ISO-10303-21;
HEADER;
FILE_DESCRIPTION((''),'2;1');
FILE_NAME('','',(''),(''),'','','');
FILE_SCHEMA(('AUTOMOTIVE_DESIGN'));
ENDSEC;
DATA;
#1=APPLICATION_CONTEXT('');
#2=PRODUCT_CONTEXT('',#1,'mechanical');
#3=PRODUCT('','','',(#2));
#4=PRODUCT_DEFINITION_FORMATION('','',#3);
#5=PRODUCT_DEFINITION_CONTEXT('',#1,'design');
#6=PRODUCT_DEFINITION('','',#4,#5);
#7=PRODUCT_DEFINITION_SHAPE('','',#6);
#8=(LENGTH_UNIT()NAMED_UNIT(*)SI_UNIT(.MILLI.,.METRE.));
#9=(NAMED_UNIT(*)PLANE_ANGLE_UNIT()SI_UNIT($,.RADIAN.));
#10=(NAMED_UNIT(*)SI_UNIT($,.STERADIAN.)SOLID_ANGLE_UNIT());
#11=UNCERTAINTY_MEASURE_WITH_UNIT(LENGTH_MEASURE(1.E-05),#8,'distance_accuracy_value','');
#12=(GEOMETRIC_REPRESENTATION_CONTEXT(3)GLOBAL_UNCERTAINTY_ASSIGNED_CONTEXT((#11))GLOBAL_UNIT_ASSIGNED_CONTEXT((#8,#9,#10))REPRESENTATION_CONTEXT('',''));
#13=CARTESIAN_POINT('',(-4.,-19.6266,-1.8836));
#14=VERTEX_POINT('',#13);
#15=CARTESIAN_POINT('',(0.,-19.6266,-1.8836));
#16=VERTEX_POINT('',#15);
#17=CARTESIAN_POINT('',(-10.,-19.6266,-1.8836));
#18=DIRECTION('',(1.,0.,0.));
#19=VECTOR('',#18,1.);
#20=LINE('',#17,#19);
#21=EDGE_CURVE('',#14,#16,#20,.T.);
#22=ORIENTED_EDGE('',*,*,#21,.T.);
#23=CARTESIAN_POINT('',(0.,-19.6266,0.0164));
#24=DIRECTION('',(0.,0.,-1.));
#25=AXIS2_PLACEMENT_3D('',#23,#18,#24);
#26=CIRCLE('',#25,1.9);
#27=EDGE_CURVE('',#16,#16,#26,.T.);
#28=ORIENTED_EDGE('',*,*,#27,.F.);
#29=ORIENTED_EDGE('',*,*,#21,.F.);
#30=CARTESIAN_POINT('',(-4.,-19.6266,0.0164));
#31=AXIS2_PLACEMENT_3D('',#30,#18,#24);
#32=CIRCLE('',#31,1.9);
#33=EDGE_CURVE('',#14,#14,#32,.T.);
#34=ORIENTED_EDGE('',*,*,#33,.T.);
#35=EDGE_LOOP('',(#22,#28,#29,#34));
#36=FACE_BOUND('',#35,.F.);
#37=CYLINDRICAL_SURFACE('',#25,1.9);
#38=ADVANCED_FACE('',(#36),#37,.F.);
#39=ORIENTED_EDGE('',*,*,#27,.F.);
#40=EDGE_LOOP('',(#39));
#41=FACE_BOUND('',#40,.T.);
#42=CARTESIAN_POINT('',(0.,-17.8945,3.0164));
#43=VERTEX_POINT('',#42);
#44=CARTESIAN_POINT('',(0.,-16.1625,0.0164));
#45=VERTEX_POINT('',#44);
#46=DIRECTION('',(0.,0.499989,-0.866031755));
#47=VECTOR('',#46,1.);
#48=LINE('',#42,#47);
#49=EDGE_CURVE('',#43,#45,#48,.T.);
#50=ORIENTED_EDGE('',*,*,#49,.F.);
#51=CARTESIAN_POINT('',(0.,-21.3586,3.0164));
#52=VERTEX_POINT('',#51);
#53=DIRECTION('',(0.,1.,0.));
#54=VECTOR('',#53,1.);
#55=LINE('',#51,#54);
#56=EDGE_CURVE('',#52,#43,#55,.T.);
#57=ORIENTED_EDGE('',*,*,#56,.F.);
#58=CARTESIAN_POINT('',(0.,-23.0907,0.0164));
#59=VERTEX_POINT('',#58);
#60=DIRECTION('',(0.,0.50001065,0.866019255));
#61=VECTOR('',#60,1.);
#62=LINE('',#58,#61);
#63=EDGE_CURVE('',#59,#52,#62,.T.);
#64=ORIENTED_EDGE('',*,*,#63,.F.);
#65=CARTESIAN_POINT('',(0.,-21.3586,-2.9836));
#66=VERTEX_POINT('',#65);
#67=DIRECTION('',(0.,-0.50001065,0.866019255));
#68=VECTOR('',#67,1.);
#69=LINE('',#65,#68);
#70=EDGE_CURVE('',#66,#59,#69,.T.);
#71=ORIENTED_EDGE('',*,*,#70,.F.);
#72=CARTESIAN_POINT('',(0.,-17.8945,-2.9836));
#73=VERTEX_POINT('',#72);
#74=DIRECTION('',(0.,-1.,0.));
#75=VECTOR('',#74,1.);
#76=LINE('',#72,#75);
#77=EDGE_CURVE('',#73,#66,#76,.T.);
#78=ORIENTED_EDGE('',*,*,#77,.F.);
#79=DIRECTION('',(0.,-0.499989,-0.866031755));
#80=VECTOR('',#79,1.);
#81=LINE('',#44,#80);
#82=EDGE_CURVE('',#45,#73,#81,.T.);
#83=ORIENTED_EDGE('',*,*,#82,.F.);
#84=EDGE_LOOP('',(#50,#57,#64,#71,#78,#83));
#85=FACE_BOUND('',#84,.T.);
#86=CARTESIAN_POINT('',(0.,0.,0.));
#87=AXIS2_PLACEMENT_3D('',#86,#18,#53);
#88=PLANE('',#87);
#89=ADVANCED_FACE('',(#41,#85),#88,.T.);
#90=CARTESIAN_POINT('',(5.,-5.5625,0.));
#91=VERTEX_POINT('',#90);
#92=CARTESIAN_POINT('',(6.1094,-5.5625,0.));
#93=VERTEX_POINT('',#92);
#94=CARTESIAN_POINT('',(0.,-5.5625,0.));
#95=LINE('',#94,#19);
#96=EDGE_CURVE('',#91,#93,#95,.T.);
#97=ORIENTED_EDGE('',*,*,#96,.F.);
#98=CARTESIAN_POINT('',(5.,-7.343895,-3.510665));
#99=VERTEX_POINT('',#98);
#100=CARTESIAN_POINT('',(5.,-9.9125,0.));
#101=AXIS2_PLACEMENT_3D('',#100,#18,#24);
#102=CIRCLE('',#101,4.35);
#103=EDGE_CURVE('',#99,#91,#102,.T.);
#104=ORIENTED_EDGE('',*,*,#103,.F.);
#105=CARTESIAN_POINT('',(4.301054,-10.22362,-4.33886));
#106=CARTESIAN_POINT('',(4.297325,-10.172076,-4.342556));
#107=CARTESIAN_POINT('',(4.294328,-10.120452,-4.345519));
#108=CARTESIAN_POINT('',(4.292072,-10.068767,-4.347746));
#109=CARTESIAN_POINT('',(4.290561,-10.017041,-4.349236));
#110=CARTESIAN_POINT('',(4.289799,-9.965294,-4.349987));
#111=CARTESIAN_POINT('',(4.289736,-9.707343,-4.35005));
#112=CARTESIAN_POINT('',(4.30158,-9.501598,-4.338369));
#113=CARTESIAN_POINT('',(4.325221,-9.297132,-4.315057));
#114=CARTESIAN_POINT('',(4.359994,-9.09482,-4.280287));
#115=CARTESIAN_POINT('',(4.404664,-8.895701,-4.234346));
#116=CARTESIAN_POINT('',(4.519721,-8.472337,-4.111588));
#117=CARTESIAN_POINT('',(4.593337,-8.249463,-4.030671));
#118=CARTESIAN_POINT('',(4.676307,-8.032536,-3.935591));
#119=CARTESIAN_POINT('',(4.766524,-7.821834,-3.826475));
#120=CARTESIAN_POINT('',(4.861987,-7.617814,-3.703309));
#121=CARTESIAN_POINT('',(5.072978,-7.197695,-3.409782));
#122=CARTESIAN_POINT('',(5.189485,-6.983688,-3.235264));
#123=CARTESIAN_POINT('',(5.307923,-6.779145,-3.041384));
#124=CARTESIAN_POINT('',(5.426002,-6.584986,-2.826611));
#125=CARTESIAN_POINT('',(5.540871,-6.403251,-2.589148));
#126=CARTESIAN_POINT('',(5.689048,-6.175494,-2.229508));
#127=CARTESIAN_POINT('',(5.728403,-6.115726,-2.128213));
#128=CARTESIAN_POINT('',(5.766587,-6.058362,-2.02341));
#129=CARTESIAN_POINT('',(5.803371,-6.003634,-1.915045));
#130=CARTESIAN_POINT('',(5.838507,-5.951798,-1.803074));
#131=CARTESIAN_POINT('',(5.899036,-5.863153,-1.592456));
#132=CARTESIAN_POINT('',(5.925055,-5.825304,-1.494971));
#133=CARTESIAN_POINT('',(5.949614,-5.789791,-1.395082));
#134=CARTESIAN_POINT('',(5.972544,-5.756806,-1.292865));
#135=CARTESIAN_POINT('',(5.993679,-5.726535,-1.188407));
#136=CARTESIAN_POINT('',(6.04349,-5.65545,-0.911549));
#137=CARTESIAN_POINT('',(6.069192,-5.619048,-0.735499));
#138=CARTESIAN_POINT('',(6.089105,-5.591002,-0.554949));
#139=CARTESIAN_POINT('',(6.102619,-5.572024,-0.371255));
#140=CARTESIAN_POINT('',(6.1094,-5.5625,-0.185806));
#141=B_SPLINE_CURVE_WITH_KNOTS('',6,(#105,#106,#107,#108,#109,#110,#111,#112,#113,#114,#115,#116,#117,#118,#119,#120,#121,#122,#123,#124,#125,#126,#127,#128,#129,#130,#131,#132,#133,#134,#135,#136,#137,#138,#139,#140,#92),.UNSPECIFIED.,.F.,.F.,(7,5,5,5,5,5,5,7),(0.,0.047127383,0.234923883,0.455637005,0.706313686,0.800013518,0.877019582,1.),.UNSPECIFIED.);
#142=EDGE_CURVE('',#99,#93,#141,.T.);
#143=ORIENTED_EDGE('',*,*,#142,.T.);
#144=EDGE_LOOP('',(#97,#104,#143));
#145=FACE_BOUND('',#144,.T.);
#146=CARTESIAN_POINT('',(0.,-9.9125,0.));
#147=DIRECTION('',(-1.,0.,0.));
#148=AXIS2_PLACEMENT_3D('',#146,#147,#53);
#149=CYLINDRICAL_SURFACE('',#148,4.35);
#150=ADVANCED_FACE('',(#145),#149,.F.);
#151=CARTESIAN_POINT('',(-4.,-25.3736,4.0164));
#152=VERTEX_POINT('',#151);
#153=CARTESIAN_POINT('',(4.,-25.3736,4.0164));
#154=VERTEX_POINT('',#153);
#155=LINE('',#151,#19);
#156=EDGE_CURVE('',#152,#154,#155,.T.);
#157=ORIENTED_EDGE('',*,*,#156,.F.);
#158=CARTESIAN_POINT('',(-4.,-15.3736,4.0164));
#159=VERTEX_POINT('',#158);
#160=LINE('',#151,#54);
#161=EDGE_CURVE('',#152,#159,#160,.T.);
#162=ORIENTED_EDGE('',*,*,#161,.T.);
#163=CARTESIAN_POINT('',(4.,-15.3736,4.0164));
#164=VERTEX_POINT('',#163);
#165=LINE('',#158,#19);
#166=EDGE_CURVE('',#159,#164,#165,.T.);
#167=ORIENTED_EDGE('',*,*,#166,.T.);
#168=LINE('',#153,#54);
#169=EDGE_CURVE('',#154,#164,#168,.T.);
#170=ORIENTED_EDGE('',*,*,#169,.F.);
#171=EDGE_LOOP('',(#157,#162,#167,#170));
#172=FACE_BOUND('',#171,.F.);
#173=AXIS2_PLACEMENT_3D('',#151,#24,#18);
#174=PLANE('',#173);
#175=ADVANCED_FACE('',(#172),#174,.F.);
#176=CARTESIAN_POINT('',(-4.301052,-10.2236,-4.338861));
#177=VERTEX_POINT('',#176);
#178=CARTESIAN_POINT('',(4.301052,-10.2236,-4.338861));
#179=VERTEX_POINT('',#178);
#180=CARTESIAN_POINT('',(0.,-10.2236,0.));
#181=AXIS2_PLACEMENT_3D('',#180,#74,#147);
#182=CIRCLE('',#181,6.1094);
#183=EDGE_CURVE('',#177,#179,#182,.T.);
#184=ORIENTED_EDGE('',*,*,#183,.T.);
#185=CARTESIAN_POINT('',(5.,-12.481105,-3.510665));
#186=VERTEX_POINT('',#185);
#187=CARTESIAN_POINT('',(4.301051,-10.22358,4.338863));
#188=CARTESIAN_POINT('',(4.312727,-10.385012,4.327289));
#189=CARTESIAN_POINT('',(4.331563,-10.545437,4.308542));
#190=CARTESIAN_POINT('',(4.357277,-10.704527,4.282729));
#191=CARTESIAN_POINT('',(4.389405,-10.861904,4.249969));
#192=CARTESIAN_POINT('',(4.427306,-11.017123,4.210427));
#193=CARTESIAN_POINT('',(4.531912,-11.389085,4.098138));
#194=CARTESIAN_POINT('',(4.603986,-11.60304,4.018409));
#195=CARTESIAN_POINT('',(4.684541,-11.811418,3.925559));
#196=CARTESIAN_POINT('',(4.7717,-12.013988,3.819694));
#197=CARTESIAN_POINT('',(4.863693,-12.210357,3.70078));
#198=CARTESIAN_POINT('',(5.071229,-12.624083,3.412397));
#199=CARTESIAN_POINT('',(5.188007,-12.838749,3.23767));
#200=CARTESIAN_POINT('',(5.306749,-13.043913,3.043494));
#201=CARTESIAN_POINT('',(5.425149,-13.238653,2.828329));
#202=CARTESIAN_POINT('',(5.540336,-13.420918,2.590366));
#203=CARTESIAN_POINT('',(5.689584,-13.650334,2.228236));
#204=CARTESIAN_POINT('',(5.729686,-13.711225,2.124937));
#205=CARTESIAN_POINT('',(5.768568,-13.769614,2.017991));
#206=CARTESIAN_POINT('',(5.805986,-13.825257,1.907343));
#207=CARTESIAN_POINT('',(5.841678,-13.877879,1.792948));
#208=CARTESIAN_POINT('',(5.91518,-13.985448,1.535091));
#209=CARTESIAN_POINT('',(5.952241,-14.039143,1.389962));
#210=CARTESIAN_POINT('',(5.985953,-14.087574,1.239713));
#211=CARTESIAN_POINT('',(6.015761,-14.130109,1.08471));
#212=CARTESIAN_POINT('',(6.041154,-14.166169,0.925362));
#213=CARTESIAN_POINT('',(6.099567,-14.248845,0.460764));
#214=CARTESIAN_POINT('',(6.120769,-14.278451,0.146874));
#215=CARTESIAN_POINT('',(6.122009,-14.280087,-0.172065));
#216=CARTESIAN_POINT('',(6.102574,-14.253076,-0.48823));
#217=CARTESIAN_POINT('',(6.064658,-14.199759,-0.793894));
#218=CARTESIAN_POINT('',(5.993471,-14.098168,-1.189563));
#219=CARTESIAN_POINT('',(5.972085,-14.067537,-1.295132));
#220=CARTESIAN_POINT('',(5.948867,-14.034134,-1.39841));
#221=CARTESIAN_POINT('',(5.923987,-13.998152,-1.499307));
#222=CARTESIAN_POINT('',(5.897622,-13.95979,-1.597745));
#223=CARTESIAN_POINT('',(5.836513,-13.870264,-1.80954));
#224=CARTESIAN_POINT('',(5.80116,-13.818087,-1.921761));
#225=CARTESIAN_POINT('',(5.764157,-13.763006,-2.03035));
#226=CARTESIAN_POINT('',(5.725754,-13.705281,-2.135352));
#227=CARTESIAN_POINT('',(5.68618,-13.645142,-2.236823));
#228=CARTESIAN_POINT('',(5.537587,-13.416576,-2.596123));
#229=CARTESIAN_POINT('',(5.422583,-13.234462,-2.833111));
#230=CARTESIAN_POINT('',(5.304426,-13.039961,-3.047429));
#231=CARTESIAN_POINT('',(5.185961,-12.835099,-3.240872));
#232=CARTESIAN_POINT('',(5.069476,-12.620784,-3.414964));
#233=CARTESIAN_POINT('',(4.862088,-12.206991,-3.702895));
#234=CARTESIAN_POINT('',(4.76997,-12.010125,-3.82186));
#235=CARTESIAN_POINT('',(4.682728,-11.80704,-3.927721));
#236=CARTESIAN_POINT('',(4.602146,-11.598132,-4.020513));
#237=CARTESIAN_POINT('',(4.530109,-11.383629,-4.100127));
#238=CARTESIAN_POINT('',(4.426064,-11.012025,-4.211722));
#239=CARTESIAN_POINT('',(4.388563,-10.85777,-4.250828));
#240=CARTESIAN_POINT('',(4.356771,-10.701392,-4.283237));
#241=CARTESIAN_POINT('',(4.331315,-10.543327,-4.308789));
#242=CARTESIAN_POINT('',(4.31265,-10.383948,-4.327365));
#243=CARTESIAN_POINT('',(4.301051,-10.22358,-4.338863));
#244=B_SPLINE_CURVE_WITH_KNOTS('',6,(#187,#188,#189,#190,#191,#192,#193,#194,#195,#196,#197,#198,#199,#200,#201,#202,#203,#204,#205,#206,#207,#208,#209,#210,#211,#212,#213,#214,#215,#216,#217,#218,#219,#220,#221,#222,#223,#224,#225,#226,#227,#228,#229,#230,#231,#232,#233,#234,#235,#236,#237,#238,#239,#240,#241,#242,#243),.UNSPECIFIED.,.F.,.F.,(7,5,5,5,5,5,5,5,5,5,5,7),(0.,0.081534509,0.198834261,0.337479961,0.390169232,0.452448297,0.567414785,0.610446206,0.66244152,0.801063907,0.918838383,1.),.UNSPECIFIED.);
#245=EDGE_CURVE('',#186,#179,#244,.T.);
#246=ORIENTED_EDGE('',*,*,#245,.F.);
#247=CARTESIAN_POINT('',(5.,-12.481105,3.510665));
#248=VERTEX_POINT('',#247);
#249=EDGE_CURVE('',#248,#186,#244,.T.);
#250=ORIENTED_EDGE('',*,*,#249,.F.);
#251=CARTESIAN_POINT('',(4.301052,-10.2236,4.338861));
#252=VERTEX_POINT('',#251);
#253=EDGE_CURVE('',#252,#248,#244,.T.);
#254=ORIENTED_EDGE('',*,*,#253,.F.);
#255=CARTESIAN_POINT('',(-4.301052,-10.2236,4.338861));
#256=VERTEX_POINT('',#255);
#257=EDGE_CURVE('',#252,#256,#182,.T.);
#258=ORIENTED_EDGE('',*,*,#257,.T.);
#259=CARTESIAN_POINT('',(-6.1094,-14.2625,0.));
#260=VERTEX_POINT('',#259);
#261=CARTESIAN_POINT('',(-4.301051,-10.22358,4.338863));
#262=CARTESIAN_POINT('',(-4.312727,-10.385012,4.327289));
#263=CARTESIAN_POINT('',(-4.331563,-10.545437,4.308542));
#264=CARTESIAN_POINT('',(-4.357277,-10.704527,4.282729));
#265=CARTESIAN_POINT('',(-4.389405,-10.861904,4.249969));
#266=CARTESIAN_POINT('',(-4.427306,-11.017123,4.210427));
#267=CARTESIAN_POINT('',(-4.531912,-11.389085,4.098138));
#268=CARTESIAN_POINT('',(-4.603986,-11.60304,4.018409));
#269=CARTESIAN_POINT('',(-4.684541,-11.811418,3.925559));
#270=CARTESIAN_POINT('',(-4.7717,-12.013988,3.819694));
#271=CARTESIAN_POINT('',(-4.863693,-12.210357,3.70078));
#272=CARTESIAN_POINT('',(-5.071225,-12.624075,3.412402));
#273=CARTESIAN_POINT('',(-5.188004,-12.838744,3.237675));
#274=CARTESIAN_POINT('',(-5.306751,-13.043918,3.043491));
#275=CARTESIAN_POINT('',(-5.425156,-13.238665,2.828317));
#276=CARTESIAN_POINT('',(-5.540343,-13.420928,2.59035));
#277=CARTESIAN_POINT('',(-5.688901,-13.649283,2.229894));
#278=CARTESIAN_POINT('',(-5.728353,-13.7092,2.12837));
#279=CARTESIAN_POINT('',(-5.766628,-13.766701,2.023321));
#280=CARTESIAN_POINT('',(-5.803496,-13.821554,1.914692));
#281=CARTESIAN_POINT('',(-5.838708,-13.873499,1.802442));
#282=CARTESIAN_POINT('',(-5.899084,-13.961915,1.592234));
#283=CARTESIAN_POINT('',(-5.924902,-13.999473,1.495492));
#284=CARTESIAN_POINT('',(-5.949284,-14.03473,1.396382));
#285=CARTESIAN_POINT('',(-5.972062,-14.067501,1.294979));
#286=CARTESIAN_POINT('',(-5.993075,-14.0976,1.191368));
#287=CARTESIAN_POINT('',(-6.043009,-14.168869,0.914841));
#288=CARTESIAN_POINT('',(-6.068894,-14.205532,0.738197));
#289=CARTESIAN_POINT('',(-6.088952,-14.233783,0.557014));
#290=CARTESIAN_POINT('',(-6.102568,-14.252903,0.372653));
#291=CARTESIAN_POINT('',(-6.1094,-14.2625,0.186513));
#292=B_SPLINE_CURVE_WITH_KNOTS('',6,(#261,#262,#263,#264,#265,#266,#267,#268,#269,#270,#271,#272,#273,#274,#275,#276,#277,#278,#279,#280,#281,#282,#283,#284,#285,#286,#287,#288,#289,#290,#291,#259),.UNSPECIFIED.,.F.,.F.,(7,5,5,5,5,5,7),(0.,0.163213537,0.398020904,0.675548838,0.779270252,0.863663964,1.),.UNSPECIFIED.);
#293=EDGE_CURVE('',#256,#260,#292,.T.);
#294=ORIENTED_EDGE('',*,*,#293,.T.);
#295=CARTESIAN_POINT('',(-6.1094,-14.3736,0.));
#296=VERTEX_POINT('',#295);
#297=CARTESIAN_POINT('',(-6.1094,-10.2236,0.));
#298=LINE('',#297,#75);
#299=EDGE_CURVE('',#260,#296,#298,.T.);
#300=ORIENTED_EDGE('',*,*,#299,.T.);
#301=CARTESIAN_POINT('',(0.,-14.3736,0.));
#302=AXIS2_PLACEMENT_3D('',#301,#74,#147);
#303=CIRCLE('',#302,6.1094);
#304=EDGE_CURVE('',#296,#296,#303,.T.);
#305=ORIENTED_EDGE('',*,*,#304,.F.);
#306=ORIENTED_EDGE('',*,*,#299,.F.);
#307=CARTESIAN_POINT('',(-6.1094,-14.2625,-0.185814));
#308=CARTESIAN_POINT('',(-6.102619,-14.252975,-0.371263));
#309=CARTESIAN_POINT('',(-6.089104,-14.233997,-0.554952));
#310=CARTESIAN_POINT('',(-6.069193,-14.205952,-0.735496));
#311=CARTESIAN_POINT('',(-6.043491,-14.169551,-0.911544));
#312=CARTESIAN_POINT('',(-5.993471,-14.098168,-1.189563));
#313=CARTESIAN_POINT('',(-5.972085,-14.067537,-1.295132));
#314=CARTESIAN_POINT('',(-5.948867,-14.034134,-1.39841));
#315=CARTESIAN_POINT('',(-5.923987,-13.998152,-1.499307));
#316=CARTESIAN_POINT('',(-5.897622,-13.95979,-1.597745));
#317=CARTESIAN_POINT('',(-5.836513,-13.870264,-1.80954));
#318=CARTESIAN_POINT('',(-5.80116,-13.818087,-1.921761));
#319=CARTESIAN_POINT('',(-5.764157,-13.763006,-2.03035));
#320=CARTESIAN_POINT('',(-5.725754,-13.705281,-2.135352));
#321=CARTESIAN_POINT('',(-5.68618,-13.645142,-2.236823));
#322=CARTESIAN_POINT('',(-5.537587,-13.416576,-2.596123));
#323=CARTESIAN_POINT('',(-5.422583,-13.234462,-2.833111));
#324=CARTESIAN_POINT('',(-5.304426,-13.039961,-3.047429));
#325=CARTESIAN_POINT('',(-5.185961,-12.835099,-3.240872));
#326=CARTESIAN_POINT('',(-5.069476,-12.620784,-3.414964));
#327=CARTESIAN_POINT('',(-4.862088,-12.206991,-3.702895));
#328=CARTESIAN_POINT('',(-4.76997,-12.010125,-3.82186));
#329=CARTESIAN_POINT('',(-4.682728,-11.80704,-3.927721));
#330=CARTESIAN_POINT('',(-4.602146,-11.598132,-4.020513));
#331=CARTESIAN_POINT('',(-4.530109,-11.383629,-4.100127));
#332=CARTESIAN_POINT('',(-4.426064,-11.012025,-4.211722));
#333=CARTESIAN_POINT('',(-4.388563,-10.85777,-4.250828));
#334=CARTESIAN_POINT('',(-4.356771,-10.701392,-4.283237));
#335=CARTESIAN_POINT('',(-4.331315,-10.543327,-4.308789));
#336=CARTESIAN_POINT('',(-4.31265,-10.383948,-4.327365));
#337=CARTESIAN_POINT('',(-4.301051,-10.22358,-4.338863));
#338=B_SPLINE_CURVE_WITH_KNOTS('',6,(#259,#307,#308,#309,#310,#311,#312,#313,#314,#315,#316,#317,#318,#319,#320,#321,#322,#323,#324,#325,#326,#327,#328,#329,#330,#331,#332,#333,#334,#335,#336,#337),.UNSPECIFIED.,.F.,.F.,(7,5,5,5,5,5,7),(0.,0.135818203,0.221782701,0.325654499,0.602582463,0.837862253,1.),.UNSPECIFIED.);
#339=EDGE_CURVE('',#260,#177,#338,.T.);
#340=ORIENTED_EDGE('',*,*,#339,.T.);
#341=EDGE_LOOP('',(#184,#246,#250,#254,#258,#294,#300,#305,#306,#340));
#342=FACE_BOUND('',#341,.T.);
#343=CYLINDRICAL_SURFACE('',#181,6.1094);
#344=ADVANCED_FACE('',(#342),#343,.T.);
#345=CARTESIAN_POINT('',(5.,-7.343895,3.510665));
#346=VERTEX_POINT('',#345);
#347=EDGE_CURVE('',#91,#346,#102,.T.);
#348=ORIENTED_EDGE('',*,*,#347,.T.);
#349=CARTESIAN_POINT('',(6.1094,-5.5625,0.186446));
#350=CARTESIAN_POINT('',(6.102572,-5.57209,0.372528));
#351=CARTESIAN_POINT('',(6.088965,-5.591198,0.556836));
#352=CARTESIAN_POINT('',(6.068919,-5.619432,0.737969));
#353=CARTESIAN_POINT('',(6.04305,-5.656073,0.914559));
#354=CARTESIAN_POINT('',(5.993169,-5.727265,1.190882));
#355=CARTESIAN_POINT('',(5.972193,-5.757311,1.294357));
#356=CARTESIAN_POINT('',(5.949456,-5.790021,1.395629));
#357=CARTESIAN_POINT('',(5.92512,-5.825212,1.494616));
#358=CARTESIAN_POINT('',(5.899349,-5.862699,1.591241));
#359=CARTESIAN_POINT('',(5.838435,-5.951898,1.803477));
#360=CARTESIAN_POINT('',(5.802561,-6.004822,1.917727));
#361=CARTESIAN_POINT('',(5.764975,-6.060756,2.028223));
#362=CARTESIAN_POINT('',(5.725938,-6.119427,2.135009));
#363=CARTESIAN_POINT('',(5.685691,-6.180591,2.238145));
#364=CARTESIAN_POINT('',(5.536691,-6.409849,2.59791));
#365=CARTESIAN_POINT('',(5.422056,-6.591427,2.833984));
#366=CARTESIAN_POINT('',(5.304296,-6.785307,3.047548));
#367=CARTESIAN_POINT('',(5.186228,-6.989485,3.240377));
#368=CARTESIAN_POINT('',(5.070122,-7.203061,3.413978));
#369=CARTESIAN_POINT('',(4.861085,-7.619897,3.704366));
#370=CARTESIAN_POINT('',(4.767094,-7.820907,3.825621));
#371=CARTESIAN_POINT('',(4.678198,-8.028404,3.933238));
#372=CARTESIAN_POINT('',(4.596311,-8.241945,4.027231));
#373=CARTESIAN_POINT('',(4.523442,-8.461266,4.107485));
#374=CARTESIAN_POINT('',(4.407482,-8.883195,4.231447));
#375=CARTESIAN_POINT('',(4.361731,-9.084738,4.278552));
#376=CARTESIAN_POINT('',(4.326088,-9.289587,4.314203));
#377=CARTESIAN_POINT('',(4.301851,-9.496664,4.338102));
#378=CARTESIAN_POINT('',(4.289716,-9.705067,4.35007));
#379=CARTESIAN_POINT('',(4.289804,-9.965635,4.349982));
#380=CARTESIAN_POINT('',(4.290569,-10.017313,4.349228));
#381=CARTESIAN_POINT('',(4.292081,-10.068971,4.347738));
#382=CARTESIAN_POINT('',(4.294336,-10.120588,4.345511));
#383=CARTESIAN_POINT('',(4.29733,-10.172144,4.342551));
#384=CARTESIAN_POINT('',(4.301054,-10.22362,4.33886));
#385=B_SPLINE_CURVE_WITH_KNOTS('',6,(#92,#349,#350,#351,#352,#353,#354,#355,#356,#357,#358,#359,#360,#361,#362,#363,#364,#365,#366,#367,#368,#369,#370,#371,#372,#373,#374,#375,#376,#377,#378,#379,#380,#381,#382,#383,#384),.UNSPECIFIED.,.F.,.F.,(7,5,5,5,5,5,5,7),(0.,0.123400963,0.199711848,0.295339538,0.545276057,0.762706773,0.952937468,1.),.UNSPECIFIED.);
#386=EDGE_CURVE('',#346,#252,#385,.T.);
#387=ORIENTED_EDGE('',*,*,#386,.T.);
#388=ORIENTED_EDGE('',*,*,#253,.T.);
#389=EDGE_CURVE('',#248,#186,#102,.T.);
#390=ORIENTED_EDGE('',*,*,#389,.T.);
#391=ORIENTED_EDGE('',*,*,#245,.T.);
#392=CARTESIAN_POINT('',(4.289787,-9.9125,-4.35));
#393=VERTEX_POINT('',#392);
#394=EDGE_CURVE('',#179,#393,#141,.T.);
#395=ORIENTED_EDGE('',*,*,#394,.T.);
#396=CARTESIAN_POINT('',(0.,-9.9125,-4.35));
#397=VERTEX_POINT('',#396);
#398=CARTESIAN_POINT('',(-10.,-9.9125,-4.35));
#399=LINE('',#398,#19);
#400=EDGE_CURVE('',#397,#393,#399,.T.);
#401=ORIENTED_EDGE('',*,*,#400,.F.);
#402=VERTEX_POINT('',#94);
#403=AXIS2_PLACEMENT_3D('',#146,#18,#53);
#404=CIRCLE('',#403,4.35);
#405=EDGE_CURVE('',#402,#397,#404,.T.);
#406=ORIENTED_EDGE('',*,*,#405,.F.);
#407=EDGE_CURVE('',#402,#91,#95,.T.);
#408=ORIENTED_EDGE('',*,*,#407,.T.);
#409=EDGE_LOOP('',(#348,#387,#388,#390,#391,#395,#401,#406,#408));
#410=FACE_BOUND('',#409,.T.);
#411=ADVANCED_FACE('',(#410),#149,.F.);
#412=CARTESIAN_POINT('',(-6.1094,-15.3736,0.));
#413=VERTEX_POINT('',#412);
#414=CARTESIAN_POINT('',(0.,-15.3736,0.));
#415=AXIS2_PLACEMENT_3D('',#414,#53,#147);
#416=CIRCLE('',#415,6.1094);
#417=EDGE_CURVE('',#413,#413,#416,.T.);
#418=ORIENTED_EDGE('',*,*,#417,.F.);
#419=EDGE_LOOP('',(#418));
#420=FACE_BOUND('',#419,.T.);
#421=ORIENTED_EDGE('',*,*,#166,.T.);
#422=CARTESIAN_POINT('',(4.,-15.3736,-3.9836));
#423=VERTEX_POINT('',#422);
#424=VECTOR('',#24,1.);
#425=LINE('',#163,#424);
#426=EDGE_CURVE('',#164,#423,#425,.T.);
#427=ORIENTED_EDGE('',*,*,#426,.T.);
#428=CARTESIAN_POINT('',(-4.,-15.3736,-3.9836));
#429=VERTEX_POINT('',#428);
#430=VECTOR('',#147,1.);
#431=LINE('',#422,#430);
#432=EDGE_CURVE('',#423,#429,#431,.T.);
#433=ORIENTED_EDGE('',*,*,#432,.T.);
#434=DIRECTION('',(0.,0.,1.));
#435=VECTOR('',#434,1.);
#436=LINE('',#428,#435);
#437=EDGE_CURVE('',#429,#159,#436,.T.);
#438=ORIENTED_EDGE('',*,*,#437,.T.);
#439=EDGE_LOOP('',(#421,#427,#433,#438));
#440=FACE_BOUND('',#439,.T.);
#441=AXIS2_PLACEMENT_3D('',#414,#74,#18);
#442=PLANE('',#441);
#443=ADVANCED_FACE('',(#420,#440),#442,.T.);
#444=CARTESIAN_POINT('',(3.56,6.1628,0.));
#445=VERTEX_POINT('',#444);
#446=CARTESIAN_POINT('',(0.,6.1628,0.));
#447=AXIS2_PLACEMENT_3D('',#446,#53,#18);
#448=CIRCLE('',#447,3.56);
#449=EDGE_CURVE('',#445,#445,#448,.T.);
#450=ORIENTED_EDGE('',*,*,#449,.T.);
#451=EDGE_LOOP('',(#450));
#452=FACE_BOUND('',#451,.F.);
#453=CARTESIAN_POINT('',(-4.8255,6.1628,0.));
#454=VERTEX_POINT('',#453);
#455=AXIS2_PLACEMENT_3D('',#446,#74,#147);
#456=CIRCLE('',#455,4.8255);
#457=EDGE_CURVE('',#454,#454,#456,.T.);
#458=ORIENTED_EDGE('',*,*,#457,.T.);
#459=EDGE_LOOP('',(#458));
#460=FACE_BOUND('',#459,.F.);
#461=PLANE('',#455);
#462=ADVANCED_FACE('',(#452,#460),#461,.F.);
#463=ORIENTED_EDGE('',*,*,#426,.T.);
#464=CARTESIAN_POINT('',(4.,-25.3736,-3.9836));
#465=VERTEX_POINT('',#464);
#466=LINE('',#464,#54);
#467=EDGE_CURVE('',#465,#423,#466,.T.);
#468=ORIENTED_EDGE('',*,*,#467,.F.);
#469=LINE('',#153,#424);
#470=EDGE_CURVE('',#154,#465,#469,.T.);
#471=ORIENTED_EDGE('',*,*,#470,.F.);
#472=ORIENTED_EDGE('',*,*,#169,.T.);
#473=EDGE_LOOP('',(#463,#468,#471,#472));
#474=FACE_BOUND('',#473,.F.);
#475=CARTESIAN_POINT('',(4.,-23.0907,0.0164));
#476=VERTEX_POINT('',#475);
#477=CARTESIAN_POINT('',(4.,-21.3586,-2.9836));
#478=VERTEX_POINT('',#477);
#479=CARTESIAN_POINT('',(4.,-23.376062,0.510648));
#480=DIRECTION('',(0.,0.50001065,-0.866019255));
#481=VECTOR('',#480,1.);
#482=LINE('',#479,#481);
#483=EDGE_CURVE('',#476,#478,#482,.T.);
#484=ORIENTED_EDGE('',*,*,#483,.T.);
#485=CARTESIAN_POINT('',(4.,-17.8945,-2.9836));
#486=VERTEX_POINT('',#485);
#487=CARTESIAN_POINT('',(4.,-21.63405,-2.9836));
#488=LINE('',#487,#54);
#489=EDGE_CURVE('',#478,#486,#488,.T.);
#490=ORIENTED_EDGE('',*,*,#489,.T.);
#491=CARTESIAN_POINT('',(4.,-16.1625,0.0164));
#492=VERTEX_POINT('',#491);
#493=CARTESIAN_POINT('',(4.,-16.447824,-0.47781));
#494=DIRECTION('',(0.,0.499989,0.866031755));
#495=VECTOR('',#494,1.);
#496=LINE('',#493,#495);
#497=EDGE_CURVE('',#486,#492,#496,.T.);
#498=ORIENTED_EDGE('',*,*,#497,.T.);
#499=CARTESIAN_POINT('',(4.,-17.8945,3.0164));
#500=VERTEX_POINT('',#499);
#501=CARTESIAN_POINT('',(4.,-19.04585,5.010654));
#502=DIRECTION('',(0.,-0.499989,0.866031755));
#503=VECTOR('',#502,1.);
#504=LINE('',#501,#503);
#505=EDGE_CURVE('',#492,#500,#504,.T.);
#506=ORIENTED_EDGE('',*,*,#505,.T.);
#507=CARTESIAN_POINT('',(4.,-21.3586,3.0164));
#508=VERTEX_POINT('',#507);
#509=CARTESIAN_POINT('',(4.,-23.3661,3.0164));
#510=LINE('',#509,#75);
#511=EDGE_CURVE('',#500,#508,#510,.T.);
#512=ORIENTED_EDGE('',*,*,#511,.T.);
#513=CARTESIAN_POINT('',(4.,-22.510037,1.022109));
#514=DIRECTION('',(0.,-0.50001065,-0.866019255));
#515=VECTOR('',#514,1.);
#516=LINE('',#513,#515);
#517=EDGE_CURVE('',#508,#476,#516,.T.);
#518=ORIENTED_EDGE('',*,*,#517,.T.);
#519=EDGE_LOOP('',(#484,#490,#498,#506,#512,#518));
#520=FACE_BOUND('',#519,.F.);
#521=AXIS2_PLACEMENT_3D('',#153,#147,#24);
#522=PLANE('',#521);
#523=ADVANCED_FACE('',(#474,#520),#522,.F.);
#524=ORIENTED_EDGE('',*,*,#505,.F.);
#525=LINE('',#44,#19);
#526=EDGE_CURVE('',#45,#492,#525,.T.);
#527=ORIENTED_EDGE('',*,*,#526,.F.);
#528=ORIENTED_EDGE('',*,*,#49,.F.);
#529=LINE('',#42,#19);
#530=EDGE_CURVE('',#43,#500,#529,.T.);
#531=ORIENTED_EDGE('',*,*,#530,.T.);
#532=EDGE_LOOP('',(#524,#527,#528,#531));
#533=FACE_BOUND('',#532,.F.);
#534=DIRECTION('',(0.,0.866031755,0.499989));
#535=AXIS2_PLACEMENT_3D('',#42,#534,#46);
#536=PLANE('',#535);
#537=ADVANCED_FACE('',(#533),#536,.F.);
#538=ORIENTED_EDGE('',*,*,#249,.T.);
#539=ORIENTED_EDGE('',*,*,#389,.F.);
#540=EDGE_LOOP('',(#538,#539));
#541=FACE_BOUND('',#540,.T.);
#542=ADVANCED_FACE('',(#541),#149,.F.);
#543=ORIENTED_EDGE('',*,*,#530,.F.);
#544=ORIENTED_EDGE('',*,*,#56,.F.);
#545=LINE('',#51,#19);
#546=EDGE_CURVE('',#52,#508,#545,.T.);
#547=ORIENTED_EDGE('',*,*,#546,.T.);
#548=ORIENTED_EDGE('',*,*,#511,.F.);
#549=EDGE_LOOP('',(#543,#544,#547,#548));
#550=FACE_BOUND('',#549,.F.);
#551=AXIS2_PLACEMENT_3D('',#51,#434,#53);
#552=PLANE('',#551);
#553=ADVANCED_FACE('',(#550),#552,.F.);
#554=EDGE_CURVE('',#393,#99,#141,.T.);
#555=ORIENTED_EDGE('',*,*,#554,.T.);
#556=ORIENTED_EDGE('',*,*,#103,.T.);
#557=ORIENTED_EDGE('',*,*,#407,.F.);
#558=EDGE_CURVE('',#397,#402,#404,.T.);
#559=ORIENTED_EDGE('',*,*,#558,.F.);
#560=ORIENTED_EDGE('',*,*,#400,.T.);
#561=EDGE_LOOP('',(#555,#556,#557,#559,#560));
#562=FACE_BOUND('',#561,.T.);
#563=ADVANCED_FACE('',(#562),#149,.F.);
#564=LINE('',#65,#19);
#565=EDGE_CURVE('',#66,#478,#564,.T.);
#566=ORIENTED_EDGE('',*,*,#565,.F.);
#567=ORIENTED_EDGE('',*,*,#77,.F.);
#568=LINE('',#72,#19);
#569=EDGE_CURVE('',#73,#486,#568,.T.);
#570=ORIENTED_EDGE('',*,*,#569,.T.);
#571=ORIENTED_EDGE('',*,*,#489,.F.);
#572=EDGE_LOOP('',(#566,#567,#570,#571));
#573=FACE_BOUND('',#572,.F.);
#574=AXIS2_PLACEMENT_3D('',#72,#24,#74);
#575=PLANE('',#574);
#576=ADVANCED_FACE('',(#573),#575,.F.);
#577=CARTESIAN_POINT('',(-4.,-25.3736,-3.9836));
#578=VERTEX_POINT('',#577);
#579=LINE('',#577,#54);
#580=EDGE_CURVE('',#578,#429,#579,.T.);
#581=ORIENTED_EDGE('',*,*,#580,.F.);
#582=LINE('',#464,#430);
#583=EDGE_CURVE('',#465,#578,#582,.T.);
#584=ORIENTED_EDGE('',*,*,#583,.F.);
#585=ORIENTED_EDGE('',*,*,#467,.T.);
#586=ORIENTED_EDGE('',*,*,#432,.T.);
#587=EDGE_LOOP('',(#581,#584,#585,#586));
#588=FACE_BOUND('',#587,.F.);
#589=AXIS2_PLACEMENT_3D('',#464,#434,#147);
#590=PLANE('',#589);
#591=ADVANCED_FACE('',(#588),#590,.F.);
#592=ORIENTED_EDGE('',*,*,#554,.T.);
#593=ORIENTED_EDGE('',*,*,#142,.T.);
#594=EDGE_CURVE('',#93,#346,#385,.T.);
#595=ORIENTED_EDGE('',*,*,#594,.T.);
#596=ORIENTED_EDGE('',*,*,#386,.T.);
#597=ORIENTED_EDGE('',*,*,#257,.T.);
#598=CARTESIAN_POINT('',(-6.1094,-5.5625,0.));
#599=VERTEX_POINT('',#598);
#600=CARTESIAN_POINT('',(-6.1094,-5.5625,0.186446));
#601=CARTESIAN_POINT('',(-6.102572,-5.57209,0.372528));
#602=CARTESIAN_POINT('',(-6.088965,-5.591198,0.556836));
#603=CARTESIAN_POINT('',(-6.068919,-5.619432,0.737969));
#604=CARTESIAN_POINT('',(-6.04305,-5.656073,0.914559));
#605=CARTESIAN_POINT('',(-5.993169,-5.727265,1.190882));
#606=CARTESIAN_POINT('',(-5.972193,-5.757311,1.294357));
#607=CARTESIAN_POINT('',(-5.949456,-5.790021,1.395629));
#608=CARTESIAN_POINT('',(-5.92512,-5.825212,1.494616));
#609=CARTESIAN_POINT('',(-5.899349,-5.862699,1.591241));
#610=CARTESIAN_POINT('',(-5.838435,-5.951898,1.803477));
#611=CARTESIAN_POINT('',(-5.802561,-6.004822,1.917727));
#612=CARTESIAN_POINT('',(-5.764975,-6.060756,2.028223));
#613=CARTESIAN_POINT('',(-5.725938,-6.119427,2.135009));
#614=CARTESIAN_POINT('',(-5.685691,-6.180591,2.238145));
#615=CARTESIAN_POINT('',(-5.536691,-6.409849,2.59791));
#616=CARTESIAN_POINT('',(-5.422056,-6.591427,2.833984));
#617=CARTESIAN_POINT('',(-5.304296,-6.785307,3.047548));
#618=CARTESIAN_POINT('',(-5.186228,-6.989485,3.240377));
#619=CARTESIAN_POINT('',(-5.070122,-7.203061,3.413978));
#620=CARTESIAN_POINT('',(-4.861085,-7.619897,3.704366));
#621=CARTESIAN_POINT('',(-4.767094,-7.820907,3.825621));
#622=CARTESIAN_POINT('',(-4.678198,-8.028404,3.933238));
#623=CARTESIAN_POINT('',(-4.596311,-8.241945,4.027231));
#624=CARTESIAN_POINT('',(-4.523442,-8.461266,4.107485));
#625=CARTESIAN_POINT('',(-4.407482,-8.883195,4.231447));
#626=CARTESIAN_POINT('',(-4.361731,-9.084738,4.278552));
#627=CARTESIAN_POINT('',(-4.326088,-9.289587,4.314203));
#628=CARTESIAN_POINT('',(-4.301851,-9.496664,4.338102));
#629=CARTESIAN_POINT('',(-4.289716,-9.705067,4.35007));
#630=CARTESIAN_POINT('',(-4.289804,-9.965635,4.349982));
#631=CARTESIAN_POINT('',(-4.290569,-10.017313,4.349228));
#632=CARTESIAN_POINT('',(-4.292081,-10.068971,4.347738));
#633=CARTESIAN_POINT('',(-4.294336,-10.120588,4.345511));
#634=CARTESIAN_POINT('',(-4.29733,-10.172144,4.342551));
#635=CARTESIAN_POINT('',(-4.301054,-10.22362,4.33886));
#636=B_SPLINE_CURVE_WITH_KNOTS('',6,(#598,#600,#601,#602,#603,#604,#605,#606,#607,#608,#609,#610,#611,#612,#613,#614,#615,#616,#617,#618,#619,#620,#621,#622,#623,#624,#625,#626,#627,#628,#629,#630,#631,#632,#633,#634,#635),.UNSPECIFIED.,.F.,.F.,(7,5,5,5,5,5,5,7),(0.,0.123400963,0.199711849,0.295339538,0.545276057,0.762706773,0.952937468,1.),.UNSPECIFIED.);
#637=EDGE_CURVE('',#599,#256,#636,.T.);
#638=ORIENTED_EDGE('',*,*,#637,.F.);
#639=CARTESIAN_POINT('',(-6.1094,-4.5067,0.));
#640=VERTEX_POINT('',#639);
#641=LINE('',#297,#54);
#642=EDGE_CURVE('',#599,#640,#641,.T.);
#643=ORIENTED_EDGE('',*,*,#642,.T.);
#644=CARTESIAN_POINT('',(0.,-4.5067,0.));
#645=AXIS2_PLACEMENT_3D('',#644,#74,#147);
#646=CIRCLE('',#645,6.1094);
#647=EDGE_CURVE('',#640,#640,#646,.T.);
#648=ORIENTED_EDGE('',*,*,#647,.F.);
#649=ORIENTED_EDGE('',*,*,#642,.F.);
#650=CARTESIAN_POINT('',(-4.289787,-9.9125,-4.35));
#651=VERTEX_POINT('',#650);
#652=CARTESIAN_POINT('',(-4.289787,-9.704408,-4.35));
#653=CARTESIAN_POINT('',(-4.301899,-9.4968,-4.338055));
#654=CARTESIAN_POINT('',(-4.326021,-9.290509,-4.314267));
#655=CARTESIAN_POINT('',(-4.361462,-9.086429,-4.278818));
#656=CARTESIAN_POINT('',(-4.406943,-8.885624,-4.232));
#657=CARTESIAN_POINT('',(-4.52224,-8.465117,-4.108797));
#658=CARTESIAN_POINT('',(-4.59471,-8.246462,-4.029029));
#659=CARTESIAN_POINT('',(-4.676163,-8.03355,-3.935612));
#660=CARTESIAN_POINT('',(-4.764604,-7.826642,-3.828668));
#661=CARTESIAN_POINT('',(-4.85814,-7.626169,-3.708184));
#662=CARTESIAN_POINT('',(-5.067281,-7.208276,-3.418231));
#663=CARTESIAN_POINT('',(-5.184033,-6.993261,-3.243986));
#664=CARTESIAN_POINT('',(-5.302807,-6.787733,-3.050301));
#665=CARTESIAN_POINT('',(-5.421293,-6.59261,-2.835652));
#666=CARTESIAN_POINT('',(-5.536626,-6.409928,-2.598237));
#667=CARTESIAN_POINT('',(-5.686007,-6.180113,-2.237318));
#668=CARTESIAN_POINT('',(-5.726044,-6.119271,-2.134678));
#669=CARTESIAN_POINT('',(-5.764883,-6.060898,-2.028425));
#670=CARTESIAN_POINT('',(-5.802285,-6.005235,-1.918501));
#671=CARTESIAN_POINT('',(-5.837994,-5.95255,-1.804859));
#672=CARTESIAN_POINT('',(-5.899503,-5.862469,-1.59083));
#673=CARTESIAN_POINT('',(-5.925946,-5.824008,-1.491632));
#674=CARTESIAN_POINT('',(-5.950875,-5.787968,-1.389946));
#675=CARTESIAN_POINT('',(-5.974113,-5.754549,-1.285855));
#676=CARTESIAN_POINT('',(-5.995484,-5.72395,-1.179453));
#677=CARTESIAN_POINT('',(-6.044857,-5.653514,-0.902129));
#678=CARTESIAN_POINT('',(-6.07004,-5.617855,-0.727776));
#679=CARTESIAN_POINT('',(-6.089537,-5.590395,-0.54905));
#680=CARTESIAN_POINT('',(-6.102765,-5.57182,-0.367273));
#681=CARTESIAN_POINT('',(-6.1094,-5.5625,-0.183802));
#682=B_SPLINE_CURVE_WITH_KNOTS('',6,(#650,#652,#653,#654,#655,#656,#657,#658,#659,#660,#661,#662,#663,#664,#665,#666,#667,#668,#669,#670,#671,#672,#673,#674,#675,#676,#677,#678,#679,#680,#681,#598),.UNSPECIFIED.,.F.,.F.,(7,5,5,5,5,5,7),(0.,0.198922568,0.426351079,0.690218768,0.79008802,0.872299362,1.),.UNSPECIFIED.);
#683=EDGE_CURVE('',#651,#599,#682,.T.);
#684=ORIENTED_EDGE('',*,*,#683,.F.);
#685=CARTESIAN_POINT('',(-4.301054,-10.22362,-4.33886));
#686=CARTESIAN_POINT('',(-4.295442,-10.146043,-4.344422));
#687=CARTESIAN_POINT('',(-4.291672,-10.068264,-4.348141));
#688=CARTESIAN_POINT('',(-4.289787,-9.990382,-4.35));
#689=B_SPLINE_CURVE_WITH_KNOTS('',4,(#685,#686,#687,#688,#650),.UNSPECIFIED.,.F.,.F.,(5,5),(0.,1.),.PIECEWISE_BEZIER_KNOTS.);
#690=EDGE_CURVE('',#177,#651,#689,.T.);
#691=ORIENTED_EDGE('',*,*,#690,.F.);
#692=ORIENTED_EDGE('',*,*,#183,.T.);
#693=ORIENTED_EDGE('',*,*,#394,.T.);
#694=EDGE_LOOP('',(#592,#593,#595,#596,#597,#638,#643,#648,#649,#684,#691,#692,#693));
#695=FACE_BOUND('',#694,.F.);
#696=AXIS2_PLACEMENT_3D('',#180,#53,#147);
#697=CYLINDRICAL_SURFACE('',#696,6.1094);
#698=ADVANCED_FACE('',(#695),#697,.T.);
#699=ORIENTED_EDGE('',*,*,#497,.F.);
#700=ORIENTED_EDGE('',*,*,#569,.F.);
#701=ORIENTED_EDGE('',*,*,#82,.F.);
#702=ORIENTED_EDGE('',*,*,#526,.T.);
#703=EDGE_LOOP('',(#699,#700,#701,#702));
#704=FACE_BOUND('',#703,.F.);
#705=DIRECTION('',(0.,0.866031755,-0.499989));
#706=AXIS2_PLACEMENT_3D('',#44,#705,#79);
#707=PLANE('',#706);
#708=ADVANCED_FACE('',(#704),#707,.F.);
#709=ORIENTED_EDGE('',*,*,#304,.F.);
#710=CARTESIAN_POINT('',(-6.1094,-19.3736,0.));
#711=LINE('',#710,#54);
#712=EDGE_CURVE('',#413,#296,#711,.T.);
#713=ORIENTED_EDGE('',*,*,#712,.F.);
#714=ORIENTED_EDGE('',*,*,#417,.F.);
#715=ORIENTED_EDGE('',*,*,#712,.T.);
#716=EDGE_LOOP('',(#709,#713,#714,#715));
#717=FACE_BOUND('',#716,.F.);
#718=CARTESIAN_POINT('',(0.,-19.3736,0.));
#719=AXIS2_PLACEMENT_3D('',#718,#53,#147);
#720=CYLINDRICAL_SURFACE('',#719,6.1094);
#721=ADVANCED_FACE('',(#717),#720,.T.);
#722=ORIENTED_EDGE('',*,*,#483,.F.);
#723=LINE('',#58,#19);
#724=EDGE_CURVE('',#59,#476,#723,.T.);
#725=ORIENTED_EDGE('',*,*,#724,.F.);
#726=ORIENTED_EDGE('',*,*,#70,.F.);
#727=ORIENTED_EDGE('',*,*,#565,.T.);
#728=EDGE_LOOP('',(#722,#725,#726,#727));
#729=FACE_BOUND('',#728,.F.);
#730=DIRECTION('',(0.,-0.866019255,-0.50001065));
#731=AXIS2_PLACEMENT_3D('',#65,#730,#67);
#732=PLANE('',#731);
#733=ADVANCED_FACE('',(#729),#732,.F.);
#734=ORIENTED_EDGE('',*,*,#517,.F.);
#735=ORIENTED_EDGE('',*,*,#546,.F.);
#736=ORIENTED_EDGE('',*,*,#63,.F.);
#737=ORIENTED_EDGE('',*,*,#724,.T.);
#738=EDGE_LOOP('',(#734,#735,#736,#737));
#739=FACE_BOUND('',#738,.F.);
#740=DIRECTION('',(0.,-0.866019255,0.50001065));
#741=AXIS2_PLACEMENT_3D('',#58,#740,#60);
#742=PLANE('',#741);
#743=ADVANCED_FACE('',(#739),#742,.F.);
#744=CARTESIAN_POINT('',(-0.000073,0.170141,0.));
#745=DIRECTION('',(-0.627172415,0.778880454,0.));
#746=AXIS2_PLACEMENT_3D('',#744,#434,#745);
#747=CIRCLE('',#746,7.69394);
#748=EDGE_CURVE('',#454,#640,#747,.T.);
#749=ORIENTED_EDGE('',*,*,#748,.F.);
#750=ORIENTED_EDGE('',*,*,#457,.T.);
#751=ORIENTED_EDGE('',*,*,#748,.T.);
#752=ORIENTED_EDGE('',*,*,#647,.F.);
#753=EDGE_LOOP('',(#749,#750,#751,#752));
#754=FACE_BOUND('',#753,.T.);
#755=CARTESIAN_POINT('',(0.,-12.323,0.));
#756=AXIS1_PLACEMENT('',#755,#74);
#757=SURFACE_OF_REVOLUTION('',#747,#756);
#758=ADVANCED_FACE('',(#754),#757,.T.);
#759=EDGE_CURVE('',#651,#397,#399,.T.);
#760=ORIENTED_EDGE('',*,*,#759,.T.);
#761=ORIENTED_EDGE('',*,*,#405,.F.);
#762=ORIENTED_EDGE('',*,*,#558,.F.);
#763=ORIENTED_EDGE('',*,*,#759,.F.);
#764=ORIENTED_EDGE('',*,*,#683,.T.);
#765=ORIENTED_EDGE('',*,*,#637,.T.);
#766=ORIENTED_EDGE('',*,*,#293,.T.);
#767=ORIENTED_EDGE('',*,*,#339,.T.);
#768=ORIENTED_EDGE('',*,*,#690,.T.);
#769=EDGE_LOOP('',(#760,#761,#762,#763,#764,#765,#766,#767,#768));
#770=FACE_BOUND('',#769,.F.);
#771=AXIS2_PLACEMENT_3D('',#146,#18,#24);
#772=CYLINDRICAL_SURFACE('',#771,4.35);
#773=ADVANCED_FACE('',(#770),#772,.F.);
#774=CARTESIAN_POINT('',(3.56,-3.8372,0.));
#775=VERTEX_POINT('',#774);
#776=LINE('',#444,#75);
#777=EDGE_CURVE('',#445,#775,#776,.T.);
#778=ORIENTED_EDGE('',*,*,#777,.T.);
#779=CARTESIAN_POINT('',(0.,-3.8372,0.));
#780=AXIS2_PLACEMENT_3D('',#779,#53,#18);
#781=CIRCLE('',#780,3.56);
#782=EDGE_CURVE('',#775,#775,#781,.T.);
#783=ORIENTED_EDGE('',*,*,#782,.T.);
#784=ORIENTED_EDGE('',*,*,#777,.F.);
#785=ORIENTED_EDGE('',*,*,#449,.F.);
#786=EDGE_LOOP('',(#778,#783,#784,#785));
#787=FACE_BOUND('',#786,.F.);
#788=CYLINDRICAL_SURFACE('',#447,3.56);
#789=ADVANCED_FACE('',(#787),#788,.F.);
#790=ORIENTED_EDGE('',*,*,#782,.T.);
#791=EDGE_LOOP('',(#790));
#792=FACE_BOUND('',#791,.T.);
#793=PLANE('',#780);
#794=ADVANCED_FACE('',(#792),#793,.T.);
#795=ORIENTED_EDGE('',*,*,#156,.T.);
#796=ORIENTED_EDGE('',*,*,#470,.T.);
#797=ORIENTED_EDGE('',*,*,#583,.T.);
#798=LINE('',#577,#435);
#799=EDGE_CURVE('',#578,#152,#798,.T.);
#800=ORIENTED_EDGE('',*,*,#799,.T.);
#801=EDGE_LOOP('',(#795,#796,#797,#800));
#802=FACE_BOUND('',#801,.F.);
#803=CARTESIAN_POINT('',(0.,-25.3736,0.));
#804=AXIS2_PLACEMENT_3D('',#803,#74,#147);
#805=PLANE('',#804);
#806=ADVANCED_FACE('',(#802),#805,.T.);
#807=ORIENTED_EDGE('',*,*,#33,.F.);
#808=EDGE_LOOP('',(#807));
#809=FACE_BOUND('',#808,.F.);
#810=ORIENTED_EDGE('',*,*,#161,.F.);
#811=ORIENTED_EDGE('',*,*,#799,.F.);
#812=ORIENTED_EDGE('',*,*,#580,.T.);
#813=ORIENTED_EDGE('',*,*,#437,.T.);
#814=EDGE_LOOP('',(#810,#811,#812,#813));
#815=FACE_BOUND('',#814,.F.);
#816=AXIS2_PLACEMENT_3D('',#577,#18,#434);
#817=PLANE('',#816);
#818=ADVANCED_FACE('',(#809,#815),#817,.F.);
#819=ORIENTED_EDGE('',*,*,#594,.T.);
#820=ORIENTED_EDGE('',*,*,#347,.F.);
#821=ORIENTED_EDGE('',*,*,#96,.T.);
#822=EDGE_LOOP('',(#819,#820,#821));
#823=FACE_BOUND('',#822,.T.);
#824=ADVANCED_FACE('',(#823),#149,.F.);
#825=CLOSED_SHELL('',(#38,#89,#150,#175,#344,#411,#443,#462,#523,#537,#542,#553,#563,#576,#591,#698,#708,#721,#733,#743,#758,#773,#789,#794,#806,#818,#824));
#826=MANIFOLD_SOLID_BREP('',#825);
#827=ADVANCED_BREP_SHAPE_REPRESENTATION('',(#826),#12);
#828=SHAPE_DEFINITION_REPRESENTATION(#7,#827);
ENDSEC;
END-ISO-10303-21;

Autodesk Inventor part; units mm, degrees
ref_plane "YZ Plane" through (0, 0, 0) normal (1, 0, 0) x (0, 1, 0)
ref_plane "XZ Plane" through (0, 0, 0) normal (0, 1, 0) x (-1, 0, 0)
ref_plane "XY Plane" through (0, 0, 0) normal (0, 0, 1) x (1, 0, 0)
sketch "Sketch1" plane through (0, 0, 0) normal (0, 0, 1) x (1, 0, 0)
  line L0 (0, 6.1628) -> (0, 4.6128)
  line L1 (0, 0) -> (0, -5.3285)
  line L2 (0, -7.6236) -> (0, 6.1628)
  line L3 (7.7918, 0) -> (42.6907, 0)
  line L4 (6.1094, -12.088) -> (6.1094, -4.669)
  line L5 (-6.1094, -10.2236) -> (-6.1094, -4.5067)
  line L6 (0, -7.6236) -> (0, -10.2236)
  line L7 (0, -7.6236) -> (0, -5.0236) construction
  arc A0 (-6.1094, 5.0092) -> (-6.87, -3.5101) centre (0, 0.1701) ccw
  arc A1 (6.1094, -4.669) -> (4.9829, 6.1628) centre (0, 0.1701) ccw
  circle A2 centre (27.3823, 0) radius 1.6
  circle A3 centre (27.3823, 0) radius 1.6
  arc A4 (15.7262, -19.2861) -> (15.9651, 19.4308) centre (0.0053, 0.1701) ccw
  arc A5 (14.9776, -18.1086) -> (14.9776, 18.1086) centre (0, 0) ccw construction
  line L8 (25.0186, 0.0157) -> (19.4598, 0.0157) construction
  line L9 (22.9824, -8.2534) -> (24.1975, 0.0157) construction
  line L10 (24.1975, 0.0157) -> (22.8643, 8.3172) construction
  line L11 (28.9823, 0) -> (30.9823, 0) construction
  line L12 (33.1204, -3.5101) -> (30.9986, 0.1649)
  line L13 (39.4857, -3.5101) -> (33.1204, -3.5101)
  line L14 (39.4857, 0.1649) -> (37.3639, -3.5101)
  circle A6 centre (35.2258, 0) radius 1.9
  line L15 (30.9986, 0.1649) -> (33.1239, 3.846)
  line L16 (33.1239, 3.846) -> (39.4857, 3.8504)
  line L17 (37.3639, 3.8489) -> (39.4857, 0.1649)
  line L18 (39.4857, 0.1784) -> (39.4857, 3.8504)
  line L19 (39.4857, 3.8504) -> (39.4857, -3.5101)
  line L20 (39.4857, 3.8504) -> (39.4857, 5.8504)
  line L21 (39.4857, 5.8504) -> (23.6696, 8.2698)
  arc A7 (15.7262, -19.2861) -> (15.9651, 19.4308) centre (0, 0.1701) ccw
  line L22 (39.4857, -3.5101) -> (39.4857, -5.5101)
  line L23 (39.4857, -5.5101) -> (23.6696, -7.9296)
  line L24 (23.6696, -7.9296) -> (23.6696, 8.2698)
  line L25 (0, 6.1628) -> (0, -10.2236)
  line L26 (0, -12.323) -> (0, -15.7561)
  line L27 (10.9155, -5.0236) -> (17.2808, -5.0236)
  line L28 (17.2808, -8.6986) -> (15.159, -12.3736)
  circle A8 centre (13.0373, -8.6986) radius 1.9
  line L29 (8.7937, -8.6986) -> (10.9155, -5.0236)
  line L30 (17.2808, -12.3736) -> (10.9155, -12.3736)
  line L31 (10.9155, -12.3736) -> (8.7937, -8.6986)
  line L32 (15.159, -5.0236) -> (17.2808, -8.6986)
  line L33 (10.9155, -12.3736) -> (10.9155, -14.3736)
  line L34 (-6.1094, -10.2236) -> (-6.1094, -14.3736)
  line L35 (0, -14.3736) -> (0, -10.2236)
  line L36 (0, -14.3736) -> (0, -19.3736)
  line L37 (-6.1094, -19.3736) -> (-6.1094, -14.3736)
  line L38 (0, -19.3736) -> (0, -25.3736)
  line L39 (0, -25.3736) -> (-6.1094, -25.3736)
  line L40 (-6.1094, -25.3736) -> (-6.1094, -19.3736)
  arc A9 (-4.8255, 6.1628) -> (-6.1094, -4.5067) centre (0, 0.1701) ccw
  line L41 (-5.029, 6.1628) -> (-4.9829, 6.1628)
  line L42 (-4.8255, 6.1628) -> (0, 6.1628)
  dimension "d2" = 3.8
  dimension "d3" = 2
  dimension "d4" = 2
  dimension "d5" = 16
  dimension "d6" = 2
  dimension "d7" = 16
  dimension "d9" = 3.8
  dimension "d10" = 2
  dimension "d17" = 5
  dimension "d50" = 6
  dimension "d64" = 7.7937
  dimension "d65" = 15.388
revolve "Revolution1" add sketch "Sketch1" angle 360 about axis through (0, -12.323, 0) along (0, -1, 0) contours L0 L2 L1 L6 L35 L26 L36 L38 L39 L40 L37 L34 L5 A9 L42
sketch "Sketch2" plane through (0, 0, 0) normal (1, 0, 0) x (0, 1, 0)
  line L0 (-4.669, 0) -> (-6.7907, -3.675) construction
  line L1 (-6.7907, 3.675) -> (-4.669, 0) construction
  line L2 (-15.156, 0) -> (-13.156, 0) construction
  line L3 (-11.0343, -3.675) -> (-6.7907, -3.675) construction
  line L4 (-4.5067, -6.1094) -> (-4.5067, 6.1094) construction
  line L5 (-4.5067, -6.1094) -> (-4.5067, 6.1094) construction
  line L6 (-48.8073, 0) -> (-58.5119, 0) construction
  line L7 (-8.9125, 0) -> (-6.3144, -1.5) construction
  line L8 (-17.8945, -2.9836) -> (-21.3586, -2.9836)
  line L9 (-21.3586, -2.9836) -> (-23.0907, 0.0164)
  line L10 (-23.0907, 0.0164) -> (-21.3586, 3.0164)
  line L11 (-21.3586, 3.0164) -> (-17.8945, 3.0164)
  line L12 (-17.8945, 3.0164) -> (-16.1625, 0.0164)
  line L13 (-16.1625, 0.0164) -> (-17.8945, -2.9836)
  line L14 (23.6533, 6.6124) -> (23.3606, 8.9041) construction
  line L15 (29.9823, 11.5805) -> (34.9823, 11.5805) construction
  line L16 (24.1789, 0) -> (22.8458, 8.3015) construction
  line L17 (25, 0) -> (19.4412, 0) construction
  line L18 (25.1551, -0.0164) -> (29.5051, -0.0164) construction
  line L19 (23.6533, -6.0645) -> (23.6533, 6.6124) construction
  arc A0 (14.9776, -18.1086) -> (14.9776, 18.1086) centre (0, 0) ccw construction
  arc A1 (18.0021, -17.3472) -> (18.0021, 17.3472) centre (0, 0) ccw construction
  arc A2 (18.0021, -17.3472) -> (18.0021, 17.3472) centre (0, 0) ccw construction
  line L20 (22.9638, -8.2692) -> (24.1789, 0) construction
  circle A3 centre (29.5051, -0.0164) radius 4.35 construction
  line L21 (43.4694, -5.828) -> (23.3606, -8.9041) construction
  line L22 (43.4694, 5.828) -> (23.3606, 8.9041) construction
  line L23 (37.4871, -3) -> (35.7551, 0) construction
  line L24 (35.7551, 0) -> (37.4871, 3) construction
  line L25 (43.4694, 5.828) -> (43.4694, -5.828) construction
  circle A4 centre (39.2192, 0) radius 1.9 construction
  line L26 (25, 0) -> (20.4835, 0) construction
  line L27 (23.6533, -6.0645) -> (23.3606, -8.9041) construction
  line L28 (43.4694, 0) -> (43.4694, 5.828) construction
  line L29 (43.4694, -5.828) -> (43.4694, 5.828) construction
  line L30 (29.5346, 0.0703) -> (29.5346, 0.0867) construction
  line L31 (37.4871, 3) -> (43.4694, 3.5234) construction
  line L32 (37.4871, -3) -> (43.4694, -3.5234) construction
  circle A5 centre (-17.0481, 18.2856) radius 1.75
  line L33 (-15.4481, 18.2856) -> (-13.4481, 18.2856) construction
  line L34 (-11.3263, 14.6106) -> (-13.4481, 18.2856) construction
  line L35 (-13.4481, 18.2856) -> (-11.3263, 21.9606) construction
  circle A6 centre (-9.2045, 18.2856) radius 1.9
  line L36 (-4.961, 18.2856) -> (-7.0828, 14.6106) construction
  line L37 (-7.0828, 21.9606) -> (-4.961, 18.2856) construction
  line L38 (-11.3263, 21.9606) -> (-7.0828, 21.9606) construction
  line L39 (-11.3263, 14.6106) -> (-7.0828, 14.6106) construction
  line L40 (-9.2045, 18.2856) -> (-6.6065, 16.7856)
  line L41 (-7.4725, 15.2856) -> (-10.9366, 15.2856)
  line L42 (-10.9366, 15.2856) -> (-12.6686, 18.2856)
  line L43 (-12.6686, 18.2856) -> (-10.9366, 21.2856)
  line L44 (-10.9366, 21.2856) -> (-7.4725, 21.2856)
  line L45 (-7.4725, 21.2856) -> (-5.7404, 18.2856)
  line L46 (-5.7404, 18.2856) -> (-7.4725, 15.2856)
  circle A7 centre (-19.6266, 0.0164) radius 1.9 construction
  circle A8 centre (-9.9125, 0) radius 4.35
  line L47 (-8.9125, 0) -> (-9.9125, 0)
  line L48 (-8.9125, 0) -> (-7.9125, 0) construction
  line L49 (-23.0907, 0.0164) -> (-25.0907, 0.0164)
  point P0 (23.6533, 8.0944)
  point P1 (23.6533, -8.0944)
  point P2 (39.2192, 3)
  point P3 (39.2192, 0)
  point P4 (43.4694, -3)
  point P5 (43.4694, 3)
  dimension "d37" = 3
  dimension "d42" = 3.8
  dimension "d43" = 2
  dimension "d44" = 3.5
  dimension "d45" = 7.35
  dimension "d46" = 3
  dimension "d47" = 1
  dimension "d48" = 180
  dimension "d49" = 2
extrude "Extrusion1" cut sketch "Sketch2" along normal blind 10 contours L8 L9 L10 L11 L12 L13 | A8
sketch "Sketch4" plane through (0, 0, 0) normal (1, 0, 0) x (0, 0, -1)
  line L0 (0, -15.156) -> (0, -13.156) construction
  line L1 (0, -4.669) -> (3.675, -6.7907) construction
  line L2 (-3.675, -6.7907) -> (0, -4.669) construction
  line L3 (3.675, -11.0343) -> (3.675, -6.7907) construction
  line L4 (6.1094, -4.669) -> (-6.1094, -4.669) construction
  line L5 (6.1094, -4.669) -> (-6.1094, -4.669) construction
  line L6 (0, -8.9125) -> (1.5, -6.3144) construction
  line L7 (2.9836, -17.8945) -> (2.9836, -21.3586)
  line L8 (2.9836, -21.3586) -> (-0.0164, -23.0907)
  line L9 (-0.0164, -23.0907) -> (-3.0164, -21.3586)
  line L10 (-3.0164, -21.3586) -> (-3.0164, -17.8945)
  line L11 (-3.0164, -17.8945) -> (-0.0164, -16.1625)
  line L12 (-0.0164, -16.1625) -> (2.9836, -17.8945)
  circle A0 centre (-0.0164, -19.6266) radius 1.9
  circle A1 centre (0, -9.9125) radius 4.35
  line L13 (0, -8.9125) -> (0, -9.9125)
  line L14 (0, -8.9125) -> (0, -7.9125) construction
  line L15 (-0.0164, -23.0907) -> (-0.0164, -25.0907)
  point P0 (0, -4.669)
  point P1 (6.1094, -4.669)
  point P2 (-6.1094, -4.669)
  point P3 (-0.0164, -23.0907)
  dimension "d51" = 3
  dimension "d52" = 1
  dimension "d53" = 180
  dimension "d54" = 2
extrude "Extrusion2" cut sketch "Sketch4" against normal blind 10 and the other way blind 5 contours A0 | A1
sketch "Sketch7" plane through (0, -25.3736, 0) normal (0, -1, 0) x (1, 0, 0)
  line L0 (0, 0.0164) -> (6.1094, 0.0164) construction
  line L1 (0, 0.0164) -> (-4, 0.0164) construction
  line L2 (-4, 0.0164) -> (-4, 4.0164) construction
  line L3 (-4, 4.0164) -> (0, 4.0164) construction
  line L4 (0, 4.0164) -> (0, 0.0164) construction
  line L5 (-4, 4.0164) -> (4, 4.0164)
  line L6 (4, 4.0164) -> (4, -3.9836)
  line L7 (4, -3.9836) -> (-4, -3.9836)
  line L8 (-4, -3.9836) -> (-4, 4.0164)
  line L9 (-4, -9.4779) -> (-8.9104, -9.4779)
  line L10 (-8.9104, -9.4779) -> (-8.9104, 10.8185)
  line L11 (-8.9104, 10.8185) -> (-4, 10.8185)
  line L12 (-4, 10.8185) -> (-4, -9.4779)
  line L13 (-7.8642, 4.0164) -> (7.4627, 4.0164)
  line L14 (7.4627, 4.0164) -> (7.4627, 9.8769)
  line L15 (7.4627, 9.8769) -> (-7.8642, 9.8769)
  line L16 (-7.8642, 9.8769) -> (-7.8642, 4.0164)
  line L17 (4, -8.5624) -> (10.7059, -8.5624)
  line L18 (10.7059, -8.5624) -> (10.7059, 4.0164)
  line L19 (10.7059, 4.0164) -> (4, 4.0164)
  line L20 (4, 4.0164) -> (4, -8.5624)
  line L21 (4, -12.198) -> (-4, -12.198)
  line L22 (-4, -12.198) -> (-4, -3.9836)
  line L23 (-4, -3.9836) -> (4, -3.9836)
  line L24 (4, -3.9836) -> (4, -12.198)
  dimension "d70" = 4
  dimension "d71" = 4
  dimension "d72" = 8
  dimension "d73" = 8
extrude "Extrusion5" cut sketch "Sketch7" against normal blind 10 contours L12 L15 L14 L13 L5 | L13 L16 L15 L12 | L8 L12 L9 L10 L11 L15 L16 L13 | L13 L19 L18 L17 L20 L6 | L7 L20 L24 L21 L22 L12
sketch "Sketch8" plane through (0, 6.1628, 0) normal (0, 1, 0) x (1, 0, 0)
  circle A0 centre (0, 0) radius 3.56
  dimension "d66" = 7.12
extrude "Extrusion6" cut sketch "Sketch8" against normal blind 10
properties part number "Now as three Part 2"
